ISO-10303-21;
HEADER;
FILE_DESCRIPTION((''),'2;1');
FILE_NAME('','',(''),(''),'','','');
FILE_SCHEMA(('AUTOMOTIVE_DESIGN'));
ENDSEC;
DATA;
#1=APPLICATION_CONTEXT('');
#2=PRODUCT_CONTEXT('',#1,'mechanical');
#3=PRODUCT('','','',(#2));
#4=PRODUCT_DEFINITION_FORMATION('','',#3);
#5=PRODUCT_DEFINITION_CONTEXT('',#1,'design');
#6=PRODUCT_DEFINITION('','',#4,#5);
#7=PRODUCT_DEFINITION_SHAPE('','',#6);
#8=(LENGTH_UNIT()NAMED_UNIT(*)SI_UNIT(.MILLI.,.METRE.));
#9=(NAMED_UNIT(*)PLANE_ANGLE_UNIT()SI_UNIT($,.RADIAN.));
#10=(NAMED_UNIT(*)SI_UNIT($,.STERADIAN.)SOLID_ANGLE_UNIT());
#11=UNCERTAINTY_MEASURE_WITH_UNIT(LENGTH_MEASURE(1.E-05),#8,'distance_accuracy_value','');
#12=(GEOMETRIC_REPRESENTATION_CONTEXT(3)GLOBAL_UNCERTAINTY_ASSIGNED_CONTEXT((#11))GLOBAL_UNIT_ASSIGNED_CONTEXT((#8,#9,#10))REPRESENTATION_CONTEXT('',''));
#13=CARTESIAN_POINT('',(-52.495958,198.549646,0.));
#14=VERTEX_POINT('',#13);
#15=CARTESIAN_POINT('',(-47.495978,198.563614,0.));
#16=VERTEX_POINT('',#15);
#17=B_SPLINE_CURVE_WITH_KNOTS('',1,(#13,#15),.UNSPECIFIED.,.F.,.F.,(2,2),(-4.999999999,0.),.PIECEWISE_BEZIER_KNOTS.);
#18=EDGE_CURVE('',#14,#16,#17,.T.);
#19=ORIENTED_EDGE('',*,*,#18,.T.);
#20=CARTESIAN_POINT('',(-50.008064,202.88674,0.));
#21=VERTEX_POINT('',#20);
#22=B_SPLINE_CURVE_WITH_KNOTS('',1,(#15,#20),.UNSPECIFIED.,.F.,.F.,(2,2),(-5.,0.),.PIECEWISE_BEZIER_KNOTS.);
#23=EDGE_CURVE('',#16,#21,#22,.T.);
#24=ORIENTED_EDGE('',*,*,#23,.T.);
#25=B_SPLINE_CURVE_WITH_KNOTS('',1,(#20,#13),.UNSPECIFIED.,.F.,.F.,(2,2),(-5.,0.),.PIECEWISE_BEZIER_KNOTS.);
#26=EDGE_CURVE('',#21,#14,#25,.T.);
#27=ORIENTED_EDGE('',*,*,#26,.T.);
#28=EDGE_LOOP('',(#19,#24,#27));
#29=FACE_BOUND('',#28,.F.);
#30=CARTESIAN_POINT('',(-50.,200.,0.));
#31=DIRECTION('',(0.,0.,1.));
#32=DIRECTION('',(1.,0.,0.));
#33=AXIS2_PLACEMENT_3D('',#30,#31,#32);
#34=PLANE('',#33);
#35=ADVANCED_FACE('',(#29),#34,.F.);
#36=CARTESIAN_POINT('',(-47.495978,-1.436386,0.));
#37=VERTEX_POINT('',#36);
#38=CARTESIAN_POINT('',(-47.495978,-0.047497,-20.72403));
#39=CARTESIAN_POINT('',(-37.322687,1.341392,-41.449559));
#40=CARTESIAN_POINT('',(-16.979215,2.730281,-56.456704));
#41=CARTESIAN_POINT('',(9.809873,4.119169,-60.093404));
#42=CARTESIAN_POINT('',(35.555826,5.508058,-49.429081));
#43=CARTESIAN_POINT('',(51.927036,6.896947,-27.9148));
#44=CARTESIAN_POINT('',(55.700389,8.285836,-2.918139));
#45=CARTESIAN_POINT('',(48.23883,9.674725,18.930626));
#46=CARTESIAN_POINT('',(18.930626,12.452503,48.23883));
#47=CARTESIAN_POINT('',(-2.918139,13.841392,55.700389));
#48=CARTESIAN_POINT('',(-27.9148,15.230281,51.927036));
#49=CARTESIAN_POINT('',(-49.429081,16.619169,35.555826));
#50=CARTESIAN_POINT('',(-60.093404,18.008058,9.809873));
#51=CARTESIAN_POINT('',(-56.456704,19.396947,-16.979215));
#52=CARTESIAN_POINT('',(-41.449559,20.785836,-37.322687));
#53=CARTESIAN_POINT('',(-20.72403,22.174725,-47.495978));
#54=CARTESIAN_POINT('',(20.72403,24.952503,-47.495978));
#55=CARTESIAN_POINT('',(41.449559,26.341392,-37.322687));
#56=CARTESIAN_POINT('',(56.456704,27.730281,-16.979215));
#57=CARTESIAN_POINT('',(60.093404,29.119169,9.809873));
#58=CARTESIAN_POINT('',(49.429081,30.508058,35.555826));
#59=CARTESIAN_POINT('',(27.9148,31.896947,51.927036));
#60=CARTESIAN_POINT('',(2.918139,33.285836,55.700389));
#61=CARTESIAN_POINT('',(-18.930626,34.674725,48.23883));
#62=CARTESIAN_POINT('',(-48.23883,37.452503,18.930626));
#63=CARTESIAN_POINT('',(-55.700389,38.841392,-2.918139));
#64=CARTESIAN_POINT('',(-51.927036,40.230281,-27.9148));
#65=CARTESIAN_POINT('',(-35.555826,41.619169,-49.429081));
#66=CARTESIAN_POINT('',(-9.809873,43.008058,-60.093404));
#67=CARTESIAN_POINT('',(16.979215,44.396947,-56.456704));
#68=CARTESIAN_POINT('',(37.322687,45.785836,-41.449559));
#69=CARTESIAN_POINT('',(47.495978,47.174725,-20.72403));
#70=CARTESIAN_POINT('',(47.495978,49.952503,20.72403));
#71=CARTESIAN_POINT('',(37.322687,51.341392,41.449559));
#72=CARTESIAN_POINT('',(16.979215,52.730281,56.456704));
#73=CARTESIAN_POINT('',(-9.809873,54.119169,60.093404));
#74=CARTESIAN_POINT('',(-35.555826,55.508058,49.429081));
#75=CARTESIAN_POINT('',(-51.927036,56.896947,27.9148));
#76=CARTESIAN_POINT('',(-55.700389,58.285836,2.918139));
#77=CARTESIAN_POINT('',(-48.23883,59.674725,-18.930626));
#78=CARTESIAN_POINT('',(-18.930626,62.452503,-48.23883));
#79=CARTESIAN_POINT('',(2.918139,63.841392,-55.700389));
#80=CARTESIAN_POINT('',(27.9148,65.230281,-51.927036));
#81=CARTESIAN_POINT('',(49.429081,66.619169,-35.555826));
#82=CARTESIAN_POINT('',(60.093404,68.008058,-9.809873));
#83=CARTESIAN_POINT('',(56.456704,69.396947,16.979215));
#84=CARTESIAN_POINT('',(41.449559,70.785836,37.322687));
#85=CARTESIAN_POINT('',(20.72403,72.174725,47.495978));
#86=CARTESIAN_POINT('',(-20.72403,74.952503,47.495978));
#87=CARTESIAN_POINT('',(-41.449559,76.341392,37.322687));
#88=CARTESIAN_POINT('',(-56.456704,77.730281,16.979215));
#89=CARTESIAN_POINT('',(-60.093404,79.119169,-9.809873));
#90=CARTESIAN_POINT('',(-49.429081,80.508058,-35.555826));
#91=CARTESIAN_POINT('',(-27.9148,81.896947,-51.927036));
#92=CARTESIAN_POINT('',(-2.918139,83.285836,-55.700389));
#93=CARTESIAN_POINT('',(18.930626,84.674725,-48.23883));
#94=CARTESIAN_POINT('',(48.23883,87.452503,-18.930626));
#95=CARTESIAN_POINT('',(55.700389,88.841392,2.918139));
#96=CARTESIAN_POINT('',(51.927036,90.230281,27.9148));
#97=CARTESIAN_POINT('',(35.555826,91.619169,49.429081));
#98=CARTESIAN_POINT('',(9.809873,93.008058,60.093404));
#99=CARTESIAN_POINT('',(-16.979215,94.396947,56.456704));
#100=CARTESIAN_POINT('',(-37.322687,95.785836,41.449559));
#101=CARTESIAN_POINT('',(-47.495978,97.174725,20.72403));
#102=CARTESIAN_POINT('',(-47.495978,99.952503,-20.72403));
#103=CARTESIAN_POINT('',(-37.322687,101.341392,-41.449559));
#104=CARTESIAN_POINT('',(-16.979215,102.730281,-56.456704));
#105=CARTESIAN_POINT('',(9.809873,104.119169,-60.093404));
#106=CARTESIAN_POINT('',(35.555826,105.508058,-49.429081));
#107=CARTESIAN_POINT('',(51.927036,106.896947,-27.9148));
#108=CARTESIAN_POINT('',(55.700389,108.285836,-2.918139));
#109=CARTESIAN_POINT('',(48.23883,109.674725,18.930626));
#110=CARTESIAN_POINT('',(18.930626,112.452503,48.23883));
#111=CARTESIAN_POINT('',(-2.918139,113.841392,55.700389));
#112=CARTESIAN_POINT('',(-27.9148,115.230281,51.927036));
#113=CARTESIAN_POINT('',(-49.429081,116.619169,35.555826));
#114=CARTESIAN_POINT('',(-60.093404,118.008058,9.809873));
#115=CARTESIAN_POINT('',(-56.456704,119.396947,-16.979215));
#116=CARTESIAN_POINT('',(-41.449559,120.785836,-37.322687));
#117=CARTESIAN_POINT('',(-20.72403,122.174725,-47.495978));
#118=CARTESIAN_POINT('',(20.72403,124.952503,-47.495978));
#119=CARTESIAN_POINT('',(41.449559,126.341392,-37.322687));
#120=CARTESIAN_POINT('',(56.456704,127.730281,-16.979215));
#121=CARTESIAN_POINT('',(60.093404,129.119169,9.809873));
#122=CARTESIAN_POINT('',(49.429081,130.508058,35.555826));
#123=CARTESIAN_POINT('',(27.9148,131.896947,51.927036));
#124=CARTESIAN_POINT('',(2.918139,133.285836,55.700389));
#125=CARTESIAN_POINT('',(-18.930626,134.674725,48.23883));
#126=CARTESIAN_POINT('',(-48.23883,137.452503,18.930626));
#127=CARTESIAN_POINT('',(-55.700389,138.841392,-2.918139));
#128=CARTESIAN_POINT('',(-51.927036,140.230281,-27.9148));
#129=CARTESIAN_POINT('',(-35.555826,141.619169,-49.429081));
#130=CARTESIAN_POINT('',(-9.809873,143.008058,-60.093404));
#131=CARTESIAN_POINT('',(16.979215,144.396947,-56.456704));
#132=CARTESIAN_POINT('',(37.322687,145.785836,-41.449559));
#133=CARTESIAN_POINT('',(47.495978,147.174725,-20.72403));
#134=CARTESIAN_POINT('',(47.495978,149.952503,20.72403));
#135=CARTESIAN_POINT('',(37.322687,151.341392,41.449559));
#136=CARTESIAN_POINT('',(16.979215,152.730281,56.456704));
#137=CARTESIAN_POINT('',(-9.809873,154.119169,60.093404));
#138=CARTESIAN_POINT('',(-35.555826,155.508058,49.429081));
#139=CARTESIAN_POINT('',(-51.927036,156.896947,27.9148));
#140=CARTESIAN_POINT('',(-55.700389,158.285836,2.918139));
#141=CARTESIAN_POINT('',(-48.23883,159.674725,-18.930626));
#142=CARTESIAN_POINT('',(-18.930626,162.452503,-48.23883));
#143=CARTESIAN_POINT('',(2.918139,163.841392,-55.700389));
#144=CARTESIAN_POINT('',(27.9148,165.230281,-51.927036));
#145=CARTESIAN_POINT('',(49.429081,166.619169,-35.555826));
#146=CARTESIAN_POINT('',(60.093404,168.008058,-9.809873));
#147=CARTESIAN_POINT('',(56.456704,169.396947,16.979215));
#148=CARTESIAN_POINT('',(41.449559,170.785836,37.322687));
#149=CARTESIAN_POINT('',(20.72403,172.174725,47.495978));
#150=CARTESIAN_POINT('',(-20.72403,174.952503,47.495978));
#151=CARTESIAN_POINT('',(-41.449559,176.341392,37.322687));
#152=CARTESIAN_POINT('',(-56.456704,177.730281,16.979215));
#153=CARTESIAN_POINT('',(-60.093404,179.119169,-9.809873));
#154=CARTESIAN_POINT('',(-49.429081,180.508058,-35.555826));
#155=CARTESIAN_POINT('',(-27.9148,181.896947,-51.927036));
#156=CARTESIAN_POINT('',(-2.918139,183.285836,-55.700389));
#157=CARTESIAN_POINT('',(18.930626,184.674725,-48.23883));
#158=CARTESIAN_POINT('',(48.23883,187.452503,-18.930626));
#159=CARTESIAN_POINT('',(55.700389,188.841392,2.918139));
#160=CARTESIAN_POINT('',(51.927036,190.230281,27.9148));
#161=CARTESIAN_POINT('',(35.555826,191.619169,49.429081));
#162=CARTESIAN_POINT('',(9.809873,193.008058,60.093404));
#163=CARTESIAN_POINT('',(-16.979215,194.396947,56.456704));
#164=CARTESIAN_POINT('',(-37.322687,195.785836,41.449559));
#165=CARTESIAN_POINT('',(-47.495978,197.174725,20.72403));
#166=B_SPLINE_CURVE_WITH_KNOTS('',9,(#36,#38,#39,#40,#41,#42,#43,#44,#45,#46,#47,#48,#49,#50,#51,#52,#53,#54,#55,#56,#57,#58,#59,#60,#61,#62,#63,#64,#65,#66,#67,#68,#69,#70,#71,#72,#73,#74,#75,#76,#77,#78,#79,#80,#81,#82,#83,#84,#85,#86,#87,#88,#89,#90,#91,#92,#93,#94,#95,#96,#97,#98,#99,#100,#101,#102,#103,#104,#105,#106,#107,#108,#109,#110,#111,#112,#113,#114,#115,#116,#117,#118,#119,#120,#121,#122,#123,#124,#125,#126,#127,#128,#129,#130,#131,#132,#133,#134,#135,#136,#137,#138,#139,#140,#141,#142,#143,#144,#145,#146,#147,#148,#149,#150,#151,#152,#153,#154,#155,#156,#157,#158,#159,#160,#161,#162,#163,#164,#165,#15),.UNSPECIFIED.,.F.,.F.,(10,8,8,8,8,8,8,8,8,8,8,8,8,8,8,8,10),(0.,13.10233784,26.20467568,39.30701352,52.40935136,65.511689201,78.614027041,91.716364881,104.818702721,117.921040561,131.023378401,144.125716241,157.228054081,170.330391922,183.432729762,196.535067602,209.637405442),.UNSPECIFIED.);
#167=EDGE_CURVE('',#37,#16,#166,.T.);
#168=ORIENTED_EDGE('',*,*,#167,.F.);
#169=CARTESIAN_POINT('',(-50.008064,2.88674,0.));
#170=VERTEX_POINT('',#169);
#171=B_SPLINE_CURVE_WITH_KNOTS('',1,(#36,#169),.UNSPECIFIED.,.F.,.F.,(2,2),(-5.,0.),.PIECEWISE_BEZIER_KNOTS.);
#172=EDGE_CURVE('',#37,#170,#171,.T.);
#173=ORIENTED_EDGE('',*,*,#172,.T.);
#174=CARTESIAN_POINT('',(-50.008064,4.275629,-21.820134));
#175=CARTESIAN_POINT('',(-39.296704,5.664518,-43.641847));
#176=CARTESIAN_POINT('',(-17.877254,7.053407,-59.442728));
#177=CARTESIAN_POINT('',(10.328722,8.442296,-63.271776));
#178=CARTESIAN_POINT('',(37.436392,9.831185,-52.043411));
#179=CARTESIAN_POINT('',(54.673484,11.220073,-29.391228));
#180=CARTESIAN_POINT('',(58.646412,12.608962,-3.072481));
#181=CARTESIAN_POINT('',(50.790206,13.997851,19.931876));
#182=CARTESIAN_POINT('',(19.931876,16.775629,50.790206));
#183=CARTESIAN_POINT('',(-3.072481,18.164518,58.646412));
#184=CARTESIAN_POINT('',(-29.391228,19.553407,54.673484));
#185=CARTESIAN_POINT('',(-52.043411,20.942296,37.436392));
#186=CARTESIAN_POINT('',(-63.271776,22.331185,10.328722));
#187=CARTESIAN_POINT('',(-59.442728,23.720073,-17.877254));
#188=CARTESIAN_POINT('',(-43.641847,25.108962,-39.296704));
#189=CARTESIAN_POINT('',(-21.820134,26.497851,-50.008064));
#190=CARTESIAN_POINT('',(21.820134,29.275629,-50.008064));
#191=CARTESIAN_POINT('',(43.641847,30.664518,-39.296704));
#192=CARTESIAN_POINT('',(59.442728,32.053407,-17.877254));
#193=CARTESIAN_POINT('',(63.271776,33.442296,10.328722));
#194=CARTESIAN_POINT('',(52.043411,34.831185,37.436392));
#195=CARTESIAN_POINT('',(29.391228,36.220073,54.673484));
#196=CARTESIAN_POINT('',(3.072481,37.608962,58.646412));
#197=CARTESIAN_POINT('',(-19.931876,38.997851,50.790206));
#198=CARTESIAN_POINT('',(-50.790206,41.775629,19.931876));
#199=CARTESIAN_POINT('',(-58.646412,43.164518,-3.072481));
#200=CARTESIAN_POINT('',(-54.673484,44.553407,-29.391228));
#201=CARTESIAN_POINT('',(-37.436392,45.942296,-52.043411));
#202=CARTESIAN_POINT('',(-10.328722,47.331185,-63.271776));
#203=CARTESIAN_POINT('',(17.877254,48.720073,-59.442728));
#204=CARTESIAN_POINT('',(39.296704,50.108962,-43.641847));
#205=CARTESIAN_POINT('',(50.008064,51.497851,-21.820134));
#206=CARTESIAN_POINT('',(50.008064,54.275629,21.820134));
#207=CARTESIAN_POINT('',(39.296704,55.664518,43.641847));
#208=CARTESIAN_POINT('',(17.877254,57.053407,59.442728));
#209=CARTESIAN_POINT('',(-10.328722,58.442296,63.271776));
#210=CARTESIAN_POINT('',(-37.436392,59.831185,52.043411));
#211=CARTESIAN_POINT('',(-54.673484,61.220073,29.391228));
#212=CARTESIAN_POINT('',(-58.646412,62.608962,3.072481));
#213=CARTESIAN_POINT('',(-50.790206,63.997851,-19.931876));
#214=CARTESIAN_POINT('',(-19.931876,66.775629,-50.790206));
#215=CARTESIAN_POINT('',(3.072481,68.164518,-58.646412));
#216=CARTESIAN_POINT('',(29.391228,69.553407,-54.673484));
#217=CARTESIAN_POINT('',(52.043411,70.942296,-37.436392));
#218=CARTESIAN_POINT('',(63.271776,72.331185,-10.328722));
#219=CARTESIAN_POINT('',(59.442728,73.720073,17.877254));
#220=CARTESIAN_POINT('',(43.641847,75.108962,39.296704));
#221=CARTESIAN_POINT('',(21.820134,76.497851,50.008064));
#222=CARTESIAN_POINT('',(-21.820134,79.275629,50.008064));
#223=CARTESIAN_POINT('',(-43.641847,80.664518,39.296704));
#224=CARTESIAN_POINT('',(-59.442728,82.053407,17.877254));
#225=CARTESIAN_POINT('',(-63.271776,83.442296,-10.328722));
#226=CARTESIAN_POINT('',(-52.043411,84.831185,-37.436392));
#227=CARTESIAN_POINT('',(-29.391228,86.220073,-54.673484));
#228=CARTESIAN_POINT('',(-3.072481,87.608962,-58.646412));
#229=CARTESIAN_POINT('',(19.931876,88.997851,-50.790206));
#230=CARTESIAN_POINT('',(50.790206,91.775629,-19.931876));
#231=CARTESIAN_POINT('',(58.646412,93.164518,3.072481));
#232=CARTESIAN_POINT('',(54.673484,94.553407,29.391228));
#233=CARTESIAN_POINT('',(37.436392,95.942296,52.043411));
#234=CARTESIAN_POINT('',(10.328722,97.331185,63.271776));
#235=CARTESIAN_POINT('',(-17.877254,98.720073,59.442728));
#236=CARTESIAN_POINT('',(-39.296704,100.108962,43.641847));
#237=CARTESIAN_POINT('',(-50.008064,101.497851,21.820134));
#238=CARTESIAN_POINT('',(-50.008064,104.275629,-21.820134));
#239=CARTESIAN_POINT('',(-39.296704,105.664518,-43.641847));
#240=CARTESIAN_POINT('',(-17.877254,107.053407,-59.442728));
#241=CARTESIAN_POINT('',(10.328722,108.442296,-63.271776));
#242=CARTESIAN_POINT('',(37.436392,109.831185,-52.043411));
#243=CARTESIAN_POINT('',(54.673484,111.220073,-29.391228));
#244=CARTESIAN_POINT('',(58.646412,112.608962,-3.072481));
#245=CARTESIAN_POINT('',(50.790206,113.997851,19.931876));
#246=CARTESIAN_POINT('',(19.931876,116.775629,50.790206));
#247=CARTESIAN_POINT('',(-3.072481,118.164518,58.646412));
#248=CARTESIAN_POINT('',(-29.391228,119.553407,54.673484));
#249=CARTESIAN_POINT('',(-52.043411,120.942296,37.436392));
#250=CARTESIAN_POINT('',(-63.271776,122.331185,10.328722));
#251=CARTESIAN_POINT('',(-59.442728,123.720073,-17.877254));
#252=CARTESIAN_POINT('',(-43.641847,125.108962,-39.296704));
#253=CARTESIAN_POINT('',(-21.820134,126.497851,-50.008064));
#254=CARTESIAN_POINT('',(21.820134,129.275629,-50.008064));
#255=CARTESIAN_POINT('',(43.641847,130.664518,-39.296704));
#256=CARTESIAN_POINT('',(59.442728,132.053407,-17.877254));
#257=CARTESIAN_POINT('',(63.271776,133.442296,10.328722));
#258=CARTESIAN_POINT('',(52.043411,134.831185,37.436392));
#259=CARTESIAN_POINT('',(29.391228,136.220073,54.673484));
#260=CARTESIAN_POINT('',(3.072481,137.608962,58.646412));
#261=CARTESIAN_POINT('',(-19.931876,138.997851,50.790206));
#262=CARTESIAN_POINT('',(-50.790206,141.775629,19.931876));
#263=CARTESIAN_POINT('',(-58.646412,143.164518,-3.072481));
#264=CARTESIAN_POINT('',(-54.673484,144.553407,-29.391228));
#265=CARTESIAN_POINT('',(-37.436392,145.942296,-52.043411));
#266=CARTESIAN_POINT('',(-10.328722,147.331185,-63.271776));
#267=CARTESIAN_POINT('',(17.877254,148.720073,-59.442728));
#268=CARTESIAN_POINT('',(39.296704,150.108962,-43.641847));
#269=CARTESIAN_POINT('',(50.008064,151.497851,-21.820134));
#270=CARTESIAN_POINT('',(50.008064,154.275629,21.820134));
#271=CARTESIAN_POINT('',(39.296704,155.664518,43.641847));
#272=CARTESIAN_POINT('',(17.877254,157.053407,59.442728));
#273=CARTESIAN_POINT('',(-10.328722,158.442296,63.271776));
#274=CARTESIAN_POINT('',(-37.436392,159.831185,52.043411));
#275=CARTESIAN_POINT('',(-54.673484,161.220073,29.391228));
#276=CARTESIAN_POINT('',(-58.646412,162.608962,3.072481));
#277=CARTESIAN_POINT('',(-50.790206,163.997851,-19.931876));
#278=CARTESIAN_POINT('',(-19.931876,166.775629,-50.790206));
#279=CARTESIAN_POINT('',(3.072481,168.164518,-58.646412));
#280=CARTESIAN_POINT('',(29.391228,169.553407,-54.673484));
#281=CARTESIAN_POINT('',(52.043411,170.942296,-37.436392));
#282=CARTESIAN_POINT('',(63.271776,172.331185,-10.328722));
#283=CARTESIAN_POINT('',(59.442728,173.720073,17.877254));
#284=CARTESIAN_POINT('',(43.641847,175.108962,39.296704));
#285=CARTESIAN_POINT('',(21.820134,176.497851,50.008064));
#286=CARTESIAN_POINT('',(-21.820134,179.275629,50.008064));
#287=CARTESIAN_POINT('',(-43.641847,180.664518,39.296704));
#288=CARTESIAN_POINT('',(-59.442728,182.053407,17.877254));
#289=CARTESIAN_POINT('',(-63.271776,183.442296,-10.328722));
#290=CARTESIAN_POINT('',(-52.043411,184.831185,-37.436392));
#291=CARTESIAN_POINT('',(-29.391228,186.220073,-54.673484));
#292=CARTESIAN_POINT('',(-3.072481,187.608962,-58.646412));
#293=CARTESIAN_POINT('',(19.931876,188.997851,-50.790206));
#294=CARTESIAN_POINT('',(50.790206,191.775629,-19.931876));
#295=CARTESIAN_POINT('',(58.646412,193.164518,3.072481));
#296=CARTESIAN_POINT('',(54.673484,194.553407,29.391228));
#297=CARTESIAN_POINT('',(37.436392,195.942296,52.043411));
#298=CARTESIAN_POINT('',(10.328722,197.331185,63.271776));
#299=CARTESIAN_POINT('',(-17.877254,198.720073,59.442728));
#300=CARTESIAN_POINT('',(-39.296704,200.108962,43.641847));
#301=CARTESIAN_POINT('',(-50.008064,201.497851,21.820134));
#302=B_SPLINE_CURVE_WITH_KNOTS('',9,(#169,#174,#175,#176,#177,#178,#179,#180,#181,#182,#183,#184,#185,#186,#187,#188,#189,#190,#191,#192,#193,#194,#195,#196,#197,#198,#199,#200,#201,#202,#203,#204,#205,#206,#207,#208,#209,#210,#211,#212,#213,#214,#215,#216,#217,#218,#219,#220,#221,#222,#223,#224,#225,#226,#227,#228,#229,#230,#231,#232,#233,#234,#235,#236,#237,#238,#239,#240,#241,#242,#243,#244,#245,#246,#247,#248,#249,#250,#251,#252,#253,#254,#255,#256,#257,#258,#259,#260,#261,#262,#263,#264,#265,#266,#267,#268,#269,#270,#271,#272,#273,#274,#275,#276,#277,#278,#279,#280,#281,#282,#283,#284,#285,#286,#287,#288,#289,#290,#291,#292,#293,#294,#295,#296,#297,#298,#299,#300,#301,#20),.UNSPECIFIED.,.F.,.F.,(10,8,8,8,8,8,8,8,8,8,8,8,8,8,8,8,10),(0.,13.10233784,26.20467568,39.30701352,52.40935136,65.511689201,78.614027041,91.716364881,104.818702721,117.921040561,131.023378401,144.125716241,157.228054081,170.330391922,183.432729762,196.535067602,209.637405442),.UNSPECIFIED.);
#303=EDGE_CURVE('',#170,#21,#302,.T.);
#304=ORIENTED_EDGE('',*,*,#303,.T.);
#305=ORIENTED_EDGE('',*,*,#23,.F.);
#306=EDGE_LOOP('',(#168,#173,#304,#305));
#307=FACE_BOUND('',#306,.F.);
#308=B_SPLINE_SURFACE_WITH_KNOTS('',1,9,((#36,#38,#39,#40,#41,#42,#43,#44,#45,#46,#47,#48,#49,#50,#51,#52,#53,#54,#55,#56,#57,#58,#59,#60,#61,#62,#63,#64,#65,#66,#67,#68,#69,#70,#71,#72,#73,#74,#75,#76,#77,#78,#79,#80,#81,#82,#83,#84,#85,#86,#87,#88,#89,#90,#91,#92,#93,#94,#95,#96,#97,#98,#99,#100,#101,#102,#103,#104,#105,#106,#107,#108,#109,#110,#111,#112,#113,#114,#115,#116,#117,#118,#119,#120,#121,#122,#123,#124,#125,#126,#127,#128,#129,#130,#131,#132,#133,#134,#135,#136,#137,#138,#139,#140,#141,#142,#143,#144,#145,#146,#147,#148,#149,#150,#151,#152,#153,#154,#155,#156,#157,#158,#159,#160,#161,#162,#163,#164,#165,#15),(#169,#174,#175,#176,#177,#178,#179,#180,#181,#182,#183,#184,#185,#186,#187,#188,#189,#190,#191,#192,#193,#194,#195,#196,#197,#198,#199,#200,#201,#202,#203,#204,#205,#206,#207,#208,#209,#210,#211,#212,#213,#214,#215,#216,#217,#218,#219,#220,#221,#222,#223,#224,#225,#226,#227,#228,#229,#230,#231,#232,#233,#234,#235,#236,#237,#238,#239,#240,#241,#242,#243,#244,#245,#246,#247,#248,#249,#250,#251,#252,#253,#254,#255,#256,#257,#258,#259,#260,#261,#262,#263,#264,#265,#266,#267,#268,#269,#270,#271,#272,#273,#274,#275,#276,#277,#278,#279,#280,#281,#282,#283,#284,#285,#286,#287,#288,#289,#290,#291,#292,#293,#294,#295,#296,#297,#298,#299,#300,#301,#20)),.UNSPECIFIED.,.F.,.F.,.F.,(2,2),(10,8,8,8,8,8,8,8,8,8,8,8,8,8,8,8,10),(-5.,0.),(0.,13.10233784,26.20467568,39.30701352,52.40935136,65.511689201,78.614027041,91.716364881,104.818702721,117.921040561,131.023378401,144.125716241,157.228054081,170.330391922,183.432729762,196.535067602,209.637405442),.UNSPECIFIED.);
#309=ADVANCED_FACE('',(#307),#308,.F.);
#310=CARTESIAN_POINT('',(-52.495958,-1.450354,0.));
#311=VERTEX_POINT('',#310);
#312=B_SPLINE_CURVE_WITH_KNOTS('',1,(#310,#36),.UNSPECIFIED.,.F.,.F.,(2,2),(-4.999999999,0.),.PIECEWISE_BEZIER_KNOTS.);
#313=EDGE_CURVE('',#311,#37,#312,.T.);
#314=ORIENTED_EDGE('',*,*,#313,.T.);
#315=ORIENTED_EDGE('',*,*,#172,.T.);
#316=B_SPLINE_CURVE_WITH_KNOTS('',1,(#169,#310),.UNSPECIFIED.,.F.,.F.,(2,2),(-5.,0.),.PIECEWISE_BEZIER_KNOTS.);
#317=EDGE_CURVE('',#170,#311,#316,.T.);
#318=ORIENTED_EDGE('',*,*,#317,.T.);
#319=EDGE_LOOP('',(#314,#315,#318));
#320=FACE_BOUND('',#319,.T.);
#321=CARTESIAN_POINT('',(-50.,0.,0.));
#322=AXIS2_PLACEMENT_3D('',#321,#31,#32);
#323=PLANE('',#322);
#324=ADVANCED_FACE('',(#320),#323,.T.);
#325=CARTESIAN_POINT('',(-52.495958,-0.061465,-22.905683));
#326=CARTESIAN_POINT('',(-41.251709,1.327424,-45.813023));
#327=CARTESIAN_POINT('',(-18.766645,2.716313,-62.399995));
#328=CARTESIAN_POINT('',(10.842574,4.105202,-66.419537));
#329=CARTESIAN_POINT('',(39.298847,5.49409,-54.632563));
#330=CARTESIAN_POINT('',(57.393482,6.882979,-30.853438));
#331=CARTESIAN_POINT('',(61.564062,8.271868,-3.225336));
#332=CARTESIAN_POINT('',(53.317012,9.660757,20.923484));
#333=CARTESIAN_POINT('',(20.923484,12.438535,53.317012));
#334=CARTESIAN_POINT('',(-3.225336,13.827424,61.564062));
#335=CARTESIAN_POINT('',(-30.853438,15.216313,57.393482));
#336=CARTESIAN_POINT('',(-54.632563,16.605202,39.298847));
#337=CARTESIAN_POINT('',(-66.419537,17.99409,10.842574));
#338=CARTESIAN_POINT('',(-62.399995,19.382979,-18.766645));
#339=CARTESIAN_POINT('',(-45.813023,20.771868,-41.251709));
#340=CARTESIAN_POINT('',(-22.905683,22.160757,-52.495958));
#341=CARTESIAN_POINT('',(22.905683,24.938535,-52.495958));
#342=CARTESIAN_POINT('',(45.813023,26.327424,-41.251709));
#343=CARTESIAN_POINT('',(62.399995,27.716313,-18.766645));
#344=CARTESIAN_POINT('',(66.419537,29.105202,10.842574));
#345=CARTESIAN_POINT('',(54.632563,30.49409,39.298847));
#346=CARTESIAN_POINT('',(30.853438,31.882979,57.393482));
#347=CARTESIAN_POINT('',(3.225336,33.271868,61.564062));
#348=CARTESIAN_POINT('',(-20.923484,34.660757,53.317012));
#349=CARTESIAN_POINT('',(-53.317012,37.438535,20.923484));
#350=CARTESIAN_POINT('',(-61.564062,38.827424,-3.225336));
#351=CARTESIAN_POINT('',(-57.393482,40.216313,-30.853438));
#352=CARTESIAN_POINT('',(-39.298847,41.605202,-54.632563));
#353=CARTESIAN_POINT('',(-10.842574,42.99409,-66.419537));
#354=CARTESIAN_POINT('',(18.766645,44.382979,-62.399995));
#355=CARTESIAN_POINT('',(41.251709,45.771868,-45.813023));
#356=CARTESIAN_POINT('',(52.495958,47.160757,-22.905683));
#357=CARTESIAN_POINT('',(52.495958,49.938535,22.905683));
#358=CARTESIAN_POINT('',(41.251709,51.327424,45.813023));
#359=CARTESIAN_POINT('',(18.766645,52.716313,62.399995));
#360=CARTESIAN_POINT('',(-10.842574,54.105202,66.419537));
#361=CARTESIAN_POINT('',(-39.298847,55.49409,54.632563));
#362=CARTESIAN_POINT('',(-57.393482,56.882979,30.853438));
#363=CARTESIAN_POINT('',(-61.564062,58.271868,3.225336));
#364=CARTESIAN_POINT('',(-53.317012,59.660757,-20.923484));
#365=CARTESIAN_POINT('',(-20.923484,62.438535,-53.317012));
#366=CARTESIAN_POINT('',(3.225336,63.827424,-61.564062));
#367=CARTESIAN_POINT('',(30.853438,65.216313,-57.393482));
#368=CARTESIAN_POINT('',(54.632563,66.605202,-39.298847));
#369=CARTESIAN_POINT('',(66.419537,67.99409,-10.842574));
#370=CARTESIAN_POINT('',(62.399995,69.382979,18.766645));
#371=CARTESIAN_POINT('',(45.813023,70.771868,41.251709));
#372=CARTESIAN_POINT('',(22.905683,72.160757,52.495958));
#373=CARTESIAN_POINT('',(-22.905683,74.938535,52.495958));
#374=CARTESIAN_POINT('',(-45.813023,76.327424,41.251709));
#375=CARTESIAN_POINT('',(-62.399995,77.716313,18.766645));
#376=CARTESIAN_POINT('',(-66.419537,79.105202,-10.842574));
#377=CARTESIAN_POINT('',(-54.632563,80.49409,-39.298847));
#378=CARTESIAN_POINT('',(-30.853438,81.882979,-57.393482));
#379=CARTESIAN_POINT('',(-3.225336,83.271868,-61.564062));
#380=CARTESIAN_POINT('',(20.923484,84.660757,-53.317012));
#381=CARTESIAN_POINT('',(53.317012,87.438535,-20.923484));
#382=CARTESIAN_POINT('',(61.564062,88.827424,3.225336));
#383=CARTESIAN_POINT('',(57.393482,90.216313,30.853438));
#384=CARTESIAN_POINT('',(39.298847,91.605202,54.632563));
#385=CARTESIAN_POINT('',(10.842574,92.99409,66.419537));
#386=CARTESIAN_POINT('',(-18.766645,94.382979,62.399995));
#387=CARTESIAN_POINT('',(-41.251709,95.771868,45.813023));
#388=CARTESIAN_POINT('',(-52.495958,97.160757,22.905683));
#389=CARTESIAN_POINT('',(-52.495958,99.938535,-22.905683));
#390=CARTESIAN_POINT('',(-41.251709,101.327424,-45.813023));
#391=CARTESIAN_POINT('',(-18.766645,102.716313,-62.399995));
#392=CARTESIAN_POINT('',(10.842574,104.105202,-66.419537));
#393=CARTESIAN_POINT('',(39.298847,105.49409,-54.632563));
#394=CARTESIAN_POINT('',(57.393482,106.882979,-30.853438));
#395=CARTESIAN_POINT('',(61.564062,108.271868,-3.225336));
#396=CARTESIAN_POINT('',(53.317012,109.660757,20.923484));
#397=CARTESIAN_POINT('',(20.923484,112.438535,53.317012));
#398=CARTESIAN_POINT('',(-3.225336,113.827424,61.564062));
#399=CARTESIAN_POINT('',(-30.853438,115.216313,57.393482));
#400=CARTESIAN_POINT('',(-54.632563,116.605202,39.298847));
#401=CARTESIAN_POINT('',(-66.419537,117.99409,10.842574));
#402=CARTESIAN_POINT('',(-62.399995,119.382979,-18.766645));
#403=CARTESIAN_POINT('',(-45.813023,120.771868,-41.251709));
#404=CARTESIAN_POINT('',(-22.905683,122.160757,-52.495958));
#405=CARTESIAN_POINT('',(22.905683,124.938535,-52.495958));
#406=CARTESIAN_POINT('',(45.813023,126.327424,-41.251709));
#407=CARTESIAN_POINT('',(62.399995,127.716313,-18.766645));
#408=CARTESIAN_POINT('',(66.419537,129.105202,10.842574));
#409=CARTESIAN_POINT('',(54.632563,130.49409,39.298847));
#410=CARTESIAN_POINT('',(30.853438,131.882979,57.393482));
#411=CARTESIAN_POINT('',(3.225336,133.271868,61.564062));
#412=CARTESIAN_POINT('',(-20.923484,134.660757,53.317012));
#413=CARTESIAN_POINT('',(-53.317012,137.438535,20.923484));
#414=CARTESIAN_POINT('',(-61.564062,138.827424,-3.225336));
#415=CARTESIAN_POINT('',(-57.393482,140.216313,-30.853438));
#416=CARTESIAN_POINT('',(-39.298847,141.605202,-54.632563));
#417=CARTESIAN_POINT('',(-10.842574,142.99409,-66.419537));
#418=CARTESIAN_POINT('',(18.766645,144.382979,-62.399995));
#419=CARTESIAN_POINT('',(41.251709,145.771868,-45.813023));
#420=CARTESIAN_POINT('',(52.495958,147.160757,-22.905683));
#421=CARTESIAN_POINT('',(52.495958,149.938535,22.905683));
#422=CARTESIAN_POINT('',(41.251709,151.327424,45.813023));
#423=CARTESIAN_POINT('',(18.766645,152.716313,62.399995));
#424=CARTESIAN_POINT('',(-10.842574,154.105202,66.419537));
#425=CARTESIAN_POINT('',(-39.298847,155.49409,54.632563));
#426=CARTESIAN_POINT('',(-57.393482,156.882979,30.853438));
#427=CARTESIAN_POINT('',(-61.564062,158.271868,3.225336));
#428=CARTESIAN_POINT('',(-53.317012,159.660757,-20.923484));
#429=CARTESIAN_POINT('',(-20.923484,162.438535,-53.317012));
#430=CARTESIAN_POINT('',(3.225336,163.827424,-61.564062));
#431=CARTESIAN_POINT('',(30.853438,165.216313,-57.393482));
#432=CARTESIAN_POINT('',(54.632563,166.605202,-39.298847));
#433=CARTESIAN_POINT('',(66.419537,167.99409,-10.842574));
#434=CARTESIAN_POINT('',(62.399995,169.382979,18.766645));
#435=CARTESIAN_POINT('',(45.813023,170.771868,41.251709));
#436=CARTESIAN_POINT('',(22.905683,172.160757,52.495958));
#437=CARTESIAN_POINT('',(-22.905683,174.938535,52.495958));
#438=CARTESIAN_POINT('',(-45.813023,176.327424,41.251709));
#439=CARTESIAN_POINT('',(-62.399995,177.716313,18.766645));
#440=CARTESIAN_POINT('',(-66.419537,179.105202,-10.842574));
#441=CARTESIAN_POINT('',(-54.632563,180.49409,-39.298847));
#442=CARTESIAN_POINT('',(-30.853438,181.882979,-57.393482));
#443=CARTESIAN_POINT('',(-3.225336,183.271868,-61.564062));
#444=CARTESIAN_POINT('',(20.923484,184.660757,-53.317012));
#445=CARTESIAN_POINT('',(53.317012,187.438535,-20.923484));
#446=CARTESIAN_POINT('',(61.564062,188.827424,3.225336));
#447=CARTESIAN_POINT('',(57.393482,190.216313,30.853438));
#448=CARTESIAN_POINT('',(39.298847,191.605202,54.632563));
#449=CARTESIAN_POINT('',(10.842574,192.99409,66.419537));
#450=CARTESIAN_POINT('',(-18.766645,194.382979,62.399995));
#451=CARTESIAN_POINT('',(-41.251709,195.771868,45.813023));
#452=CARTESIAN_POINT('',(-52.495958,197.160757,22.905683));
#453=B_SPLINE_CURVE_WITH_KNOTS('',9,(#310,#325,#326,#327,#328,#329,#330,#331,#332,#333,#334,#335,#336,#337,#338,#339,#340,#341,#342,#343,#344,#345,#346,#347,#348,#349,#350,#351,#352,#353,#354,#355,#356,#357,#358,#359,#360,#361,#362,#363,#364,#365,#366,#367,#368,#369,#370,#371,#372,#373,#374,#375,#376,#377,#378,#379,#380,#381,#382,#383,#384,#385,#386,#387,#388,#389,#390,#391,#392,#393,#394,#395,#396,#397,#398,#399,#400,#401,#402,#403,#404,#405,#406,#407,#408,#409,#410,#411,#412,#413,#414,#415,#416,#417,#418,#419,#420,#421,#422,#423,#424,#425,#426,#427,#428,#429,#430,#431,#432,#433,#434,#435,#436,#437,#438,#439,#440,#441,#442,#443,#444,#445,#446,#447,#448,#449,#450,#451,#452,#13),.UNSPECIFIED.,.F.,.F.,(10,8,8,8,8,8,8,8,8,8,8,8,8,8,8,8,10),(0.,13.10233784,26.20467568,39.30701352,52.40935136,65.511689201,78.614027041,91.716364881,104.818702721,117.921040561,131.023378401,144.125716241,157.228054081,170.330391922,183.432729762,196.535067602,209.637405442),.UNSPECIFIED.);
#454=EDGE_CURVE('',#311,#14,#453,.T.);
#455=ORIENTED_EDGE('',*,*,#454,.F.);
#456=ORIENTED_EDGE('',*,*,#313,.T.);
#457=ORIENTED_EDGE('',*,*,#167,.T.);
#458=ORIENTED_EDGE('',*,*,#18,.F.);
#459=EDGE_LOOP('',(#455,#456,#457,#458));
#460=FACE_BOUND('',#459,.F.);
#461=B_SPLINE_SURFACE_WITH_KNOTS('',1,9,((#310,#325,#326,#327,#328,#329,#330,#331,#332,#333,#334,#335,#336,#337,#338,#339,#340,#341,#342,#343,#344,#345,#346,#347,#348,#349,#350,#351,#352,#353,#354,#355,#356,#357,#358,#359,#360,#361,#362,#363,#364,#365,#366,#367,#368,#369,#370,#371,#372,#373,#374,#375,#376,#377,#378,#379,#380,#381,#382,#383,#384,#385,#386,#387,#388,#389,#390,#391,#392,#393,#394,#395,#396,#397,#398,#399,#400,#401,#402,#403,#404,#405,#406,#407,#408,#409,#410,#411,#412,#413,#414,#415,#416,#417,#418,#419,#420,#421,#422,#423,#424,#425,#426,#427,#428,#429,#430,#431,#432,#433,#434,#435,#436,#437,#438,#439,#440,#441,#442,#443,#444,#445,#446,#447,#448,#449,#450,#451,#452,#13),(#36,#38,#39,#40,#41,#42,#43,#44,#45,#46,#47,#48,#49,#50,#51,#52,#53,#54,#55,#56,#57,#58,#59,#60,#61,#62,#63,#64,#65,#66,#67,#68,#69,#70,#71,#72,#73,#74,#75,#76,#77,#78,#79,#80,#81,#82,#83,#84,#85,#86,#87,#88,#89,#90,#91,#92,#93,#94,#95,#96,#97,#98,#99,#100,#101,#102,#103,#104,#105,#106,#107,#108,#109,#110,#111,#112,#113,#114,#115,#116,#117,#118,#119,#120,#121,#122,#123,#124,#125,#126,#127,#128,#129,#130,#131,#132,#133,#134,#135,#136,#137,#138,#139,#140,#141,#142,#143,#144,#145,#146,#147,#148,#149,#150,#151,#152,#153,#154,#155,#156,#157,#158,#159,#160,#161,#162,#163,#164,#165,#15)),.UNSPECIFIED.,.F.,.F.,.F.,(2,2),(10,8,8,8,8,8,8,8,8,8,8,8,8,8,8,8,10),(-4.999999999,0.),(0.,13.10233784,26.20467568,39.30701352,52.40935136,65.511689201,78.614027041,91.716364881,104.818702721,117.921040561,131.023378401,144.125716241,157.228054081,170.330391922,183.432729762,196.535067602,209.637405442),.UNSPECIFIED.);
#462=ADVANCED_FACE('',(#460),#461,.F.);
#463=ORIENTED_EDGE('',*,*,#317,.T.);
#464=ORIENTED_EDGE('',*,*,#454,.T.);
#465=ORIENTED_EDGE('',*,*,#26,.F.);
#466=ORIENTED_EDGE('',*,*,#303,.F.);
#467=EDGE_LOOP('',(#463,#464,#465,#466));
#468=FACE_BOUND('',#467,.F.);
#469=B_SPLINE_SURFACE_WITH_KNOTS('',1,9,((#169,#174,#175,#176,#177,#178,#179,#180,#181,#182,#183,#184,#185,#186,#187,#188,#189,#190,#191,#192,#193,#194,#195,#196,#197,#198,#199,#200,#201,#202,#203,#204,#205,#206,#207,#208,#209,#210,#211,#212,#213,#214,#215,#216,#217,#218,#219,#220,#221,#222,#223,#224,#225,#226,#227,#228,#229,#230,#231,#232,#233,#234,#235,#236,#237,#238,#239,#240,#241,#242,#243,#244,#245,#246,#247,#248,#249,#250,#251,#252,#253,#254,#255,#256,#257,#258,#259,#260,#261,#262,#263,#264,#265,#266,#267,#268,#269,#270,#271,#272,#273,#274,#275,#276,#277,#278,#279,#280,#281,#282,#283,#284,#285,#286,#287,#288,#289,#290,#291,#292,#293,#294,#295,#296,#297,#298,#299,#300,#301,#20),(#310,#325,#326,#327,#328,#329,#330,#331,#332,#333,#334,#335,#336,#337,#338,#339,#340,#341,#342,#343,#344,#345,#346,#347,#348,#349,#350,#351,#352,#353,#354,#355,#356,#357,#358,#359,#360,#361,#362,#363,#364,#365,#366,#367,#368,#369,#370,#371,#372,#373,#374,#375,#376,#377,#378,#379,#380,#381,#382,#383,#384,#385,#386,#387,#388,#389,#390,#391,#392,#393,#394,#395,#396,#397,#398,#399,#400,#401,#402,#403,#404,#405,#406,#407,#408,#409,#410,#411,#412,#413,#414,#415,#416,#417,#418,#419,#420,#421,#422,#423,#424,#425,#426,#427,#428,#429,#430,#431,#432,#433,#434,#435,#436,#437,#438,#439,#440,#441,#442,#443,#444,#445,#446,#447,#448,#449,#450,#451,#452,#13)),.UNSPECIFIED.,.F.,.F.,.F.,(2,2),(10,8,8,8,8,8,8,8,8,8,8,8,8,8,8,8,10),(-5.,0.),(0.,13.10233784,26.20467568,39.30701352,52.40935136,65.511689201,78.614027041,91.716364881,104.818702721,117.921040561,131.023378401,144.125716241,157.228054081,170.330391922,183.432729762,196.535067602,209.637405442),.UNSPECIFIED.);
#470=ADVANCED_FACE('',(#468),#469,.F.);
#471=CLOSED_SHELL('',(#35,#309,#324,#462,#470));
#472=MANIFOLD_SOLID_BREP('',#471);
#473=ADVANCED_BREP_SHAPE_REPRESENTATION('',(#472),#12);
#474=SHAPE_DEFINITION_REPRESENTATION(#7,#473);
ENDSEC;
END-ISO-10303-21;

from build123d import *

# Parameters (mm, degrees)
SWEEP1_PITCH       = 20
SWEEP1_HEIGHT      = 200
SWEEP1_RADIUS      = 50
SWEEP1_START_ANGLE = -90


with BuildPart() as part:
    # Sweep1: sweep along a helix
    with BuildLine() as sweep1_path:
        add(Helix(SWEEP1_PITCH, SWEEP1_HEIGHT, SWEEP1_RADIUS, center=(0, 0, 0), direction=(0, 1, 0), lefthand=True, mode=Mode.PRIVATE).rotate(Axis((0, 0, 0), (0, 1, 0)), SWEEP1_START_ANGLE))
    # Sketch3 → Sweep1 (sweep)
    with BuildSketch(Plane.XY):
        Polygon((-50.008064385, 2.886740082), (-47.495977563, -1.436386078), (-52.495958052, -1.450354003), align=None)
    sweep(path=sweep1_path.line, is_frenet=True)


solid = part.part
